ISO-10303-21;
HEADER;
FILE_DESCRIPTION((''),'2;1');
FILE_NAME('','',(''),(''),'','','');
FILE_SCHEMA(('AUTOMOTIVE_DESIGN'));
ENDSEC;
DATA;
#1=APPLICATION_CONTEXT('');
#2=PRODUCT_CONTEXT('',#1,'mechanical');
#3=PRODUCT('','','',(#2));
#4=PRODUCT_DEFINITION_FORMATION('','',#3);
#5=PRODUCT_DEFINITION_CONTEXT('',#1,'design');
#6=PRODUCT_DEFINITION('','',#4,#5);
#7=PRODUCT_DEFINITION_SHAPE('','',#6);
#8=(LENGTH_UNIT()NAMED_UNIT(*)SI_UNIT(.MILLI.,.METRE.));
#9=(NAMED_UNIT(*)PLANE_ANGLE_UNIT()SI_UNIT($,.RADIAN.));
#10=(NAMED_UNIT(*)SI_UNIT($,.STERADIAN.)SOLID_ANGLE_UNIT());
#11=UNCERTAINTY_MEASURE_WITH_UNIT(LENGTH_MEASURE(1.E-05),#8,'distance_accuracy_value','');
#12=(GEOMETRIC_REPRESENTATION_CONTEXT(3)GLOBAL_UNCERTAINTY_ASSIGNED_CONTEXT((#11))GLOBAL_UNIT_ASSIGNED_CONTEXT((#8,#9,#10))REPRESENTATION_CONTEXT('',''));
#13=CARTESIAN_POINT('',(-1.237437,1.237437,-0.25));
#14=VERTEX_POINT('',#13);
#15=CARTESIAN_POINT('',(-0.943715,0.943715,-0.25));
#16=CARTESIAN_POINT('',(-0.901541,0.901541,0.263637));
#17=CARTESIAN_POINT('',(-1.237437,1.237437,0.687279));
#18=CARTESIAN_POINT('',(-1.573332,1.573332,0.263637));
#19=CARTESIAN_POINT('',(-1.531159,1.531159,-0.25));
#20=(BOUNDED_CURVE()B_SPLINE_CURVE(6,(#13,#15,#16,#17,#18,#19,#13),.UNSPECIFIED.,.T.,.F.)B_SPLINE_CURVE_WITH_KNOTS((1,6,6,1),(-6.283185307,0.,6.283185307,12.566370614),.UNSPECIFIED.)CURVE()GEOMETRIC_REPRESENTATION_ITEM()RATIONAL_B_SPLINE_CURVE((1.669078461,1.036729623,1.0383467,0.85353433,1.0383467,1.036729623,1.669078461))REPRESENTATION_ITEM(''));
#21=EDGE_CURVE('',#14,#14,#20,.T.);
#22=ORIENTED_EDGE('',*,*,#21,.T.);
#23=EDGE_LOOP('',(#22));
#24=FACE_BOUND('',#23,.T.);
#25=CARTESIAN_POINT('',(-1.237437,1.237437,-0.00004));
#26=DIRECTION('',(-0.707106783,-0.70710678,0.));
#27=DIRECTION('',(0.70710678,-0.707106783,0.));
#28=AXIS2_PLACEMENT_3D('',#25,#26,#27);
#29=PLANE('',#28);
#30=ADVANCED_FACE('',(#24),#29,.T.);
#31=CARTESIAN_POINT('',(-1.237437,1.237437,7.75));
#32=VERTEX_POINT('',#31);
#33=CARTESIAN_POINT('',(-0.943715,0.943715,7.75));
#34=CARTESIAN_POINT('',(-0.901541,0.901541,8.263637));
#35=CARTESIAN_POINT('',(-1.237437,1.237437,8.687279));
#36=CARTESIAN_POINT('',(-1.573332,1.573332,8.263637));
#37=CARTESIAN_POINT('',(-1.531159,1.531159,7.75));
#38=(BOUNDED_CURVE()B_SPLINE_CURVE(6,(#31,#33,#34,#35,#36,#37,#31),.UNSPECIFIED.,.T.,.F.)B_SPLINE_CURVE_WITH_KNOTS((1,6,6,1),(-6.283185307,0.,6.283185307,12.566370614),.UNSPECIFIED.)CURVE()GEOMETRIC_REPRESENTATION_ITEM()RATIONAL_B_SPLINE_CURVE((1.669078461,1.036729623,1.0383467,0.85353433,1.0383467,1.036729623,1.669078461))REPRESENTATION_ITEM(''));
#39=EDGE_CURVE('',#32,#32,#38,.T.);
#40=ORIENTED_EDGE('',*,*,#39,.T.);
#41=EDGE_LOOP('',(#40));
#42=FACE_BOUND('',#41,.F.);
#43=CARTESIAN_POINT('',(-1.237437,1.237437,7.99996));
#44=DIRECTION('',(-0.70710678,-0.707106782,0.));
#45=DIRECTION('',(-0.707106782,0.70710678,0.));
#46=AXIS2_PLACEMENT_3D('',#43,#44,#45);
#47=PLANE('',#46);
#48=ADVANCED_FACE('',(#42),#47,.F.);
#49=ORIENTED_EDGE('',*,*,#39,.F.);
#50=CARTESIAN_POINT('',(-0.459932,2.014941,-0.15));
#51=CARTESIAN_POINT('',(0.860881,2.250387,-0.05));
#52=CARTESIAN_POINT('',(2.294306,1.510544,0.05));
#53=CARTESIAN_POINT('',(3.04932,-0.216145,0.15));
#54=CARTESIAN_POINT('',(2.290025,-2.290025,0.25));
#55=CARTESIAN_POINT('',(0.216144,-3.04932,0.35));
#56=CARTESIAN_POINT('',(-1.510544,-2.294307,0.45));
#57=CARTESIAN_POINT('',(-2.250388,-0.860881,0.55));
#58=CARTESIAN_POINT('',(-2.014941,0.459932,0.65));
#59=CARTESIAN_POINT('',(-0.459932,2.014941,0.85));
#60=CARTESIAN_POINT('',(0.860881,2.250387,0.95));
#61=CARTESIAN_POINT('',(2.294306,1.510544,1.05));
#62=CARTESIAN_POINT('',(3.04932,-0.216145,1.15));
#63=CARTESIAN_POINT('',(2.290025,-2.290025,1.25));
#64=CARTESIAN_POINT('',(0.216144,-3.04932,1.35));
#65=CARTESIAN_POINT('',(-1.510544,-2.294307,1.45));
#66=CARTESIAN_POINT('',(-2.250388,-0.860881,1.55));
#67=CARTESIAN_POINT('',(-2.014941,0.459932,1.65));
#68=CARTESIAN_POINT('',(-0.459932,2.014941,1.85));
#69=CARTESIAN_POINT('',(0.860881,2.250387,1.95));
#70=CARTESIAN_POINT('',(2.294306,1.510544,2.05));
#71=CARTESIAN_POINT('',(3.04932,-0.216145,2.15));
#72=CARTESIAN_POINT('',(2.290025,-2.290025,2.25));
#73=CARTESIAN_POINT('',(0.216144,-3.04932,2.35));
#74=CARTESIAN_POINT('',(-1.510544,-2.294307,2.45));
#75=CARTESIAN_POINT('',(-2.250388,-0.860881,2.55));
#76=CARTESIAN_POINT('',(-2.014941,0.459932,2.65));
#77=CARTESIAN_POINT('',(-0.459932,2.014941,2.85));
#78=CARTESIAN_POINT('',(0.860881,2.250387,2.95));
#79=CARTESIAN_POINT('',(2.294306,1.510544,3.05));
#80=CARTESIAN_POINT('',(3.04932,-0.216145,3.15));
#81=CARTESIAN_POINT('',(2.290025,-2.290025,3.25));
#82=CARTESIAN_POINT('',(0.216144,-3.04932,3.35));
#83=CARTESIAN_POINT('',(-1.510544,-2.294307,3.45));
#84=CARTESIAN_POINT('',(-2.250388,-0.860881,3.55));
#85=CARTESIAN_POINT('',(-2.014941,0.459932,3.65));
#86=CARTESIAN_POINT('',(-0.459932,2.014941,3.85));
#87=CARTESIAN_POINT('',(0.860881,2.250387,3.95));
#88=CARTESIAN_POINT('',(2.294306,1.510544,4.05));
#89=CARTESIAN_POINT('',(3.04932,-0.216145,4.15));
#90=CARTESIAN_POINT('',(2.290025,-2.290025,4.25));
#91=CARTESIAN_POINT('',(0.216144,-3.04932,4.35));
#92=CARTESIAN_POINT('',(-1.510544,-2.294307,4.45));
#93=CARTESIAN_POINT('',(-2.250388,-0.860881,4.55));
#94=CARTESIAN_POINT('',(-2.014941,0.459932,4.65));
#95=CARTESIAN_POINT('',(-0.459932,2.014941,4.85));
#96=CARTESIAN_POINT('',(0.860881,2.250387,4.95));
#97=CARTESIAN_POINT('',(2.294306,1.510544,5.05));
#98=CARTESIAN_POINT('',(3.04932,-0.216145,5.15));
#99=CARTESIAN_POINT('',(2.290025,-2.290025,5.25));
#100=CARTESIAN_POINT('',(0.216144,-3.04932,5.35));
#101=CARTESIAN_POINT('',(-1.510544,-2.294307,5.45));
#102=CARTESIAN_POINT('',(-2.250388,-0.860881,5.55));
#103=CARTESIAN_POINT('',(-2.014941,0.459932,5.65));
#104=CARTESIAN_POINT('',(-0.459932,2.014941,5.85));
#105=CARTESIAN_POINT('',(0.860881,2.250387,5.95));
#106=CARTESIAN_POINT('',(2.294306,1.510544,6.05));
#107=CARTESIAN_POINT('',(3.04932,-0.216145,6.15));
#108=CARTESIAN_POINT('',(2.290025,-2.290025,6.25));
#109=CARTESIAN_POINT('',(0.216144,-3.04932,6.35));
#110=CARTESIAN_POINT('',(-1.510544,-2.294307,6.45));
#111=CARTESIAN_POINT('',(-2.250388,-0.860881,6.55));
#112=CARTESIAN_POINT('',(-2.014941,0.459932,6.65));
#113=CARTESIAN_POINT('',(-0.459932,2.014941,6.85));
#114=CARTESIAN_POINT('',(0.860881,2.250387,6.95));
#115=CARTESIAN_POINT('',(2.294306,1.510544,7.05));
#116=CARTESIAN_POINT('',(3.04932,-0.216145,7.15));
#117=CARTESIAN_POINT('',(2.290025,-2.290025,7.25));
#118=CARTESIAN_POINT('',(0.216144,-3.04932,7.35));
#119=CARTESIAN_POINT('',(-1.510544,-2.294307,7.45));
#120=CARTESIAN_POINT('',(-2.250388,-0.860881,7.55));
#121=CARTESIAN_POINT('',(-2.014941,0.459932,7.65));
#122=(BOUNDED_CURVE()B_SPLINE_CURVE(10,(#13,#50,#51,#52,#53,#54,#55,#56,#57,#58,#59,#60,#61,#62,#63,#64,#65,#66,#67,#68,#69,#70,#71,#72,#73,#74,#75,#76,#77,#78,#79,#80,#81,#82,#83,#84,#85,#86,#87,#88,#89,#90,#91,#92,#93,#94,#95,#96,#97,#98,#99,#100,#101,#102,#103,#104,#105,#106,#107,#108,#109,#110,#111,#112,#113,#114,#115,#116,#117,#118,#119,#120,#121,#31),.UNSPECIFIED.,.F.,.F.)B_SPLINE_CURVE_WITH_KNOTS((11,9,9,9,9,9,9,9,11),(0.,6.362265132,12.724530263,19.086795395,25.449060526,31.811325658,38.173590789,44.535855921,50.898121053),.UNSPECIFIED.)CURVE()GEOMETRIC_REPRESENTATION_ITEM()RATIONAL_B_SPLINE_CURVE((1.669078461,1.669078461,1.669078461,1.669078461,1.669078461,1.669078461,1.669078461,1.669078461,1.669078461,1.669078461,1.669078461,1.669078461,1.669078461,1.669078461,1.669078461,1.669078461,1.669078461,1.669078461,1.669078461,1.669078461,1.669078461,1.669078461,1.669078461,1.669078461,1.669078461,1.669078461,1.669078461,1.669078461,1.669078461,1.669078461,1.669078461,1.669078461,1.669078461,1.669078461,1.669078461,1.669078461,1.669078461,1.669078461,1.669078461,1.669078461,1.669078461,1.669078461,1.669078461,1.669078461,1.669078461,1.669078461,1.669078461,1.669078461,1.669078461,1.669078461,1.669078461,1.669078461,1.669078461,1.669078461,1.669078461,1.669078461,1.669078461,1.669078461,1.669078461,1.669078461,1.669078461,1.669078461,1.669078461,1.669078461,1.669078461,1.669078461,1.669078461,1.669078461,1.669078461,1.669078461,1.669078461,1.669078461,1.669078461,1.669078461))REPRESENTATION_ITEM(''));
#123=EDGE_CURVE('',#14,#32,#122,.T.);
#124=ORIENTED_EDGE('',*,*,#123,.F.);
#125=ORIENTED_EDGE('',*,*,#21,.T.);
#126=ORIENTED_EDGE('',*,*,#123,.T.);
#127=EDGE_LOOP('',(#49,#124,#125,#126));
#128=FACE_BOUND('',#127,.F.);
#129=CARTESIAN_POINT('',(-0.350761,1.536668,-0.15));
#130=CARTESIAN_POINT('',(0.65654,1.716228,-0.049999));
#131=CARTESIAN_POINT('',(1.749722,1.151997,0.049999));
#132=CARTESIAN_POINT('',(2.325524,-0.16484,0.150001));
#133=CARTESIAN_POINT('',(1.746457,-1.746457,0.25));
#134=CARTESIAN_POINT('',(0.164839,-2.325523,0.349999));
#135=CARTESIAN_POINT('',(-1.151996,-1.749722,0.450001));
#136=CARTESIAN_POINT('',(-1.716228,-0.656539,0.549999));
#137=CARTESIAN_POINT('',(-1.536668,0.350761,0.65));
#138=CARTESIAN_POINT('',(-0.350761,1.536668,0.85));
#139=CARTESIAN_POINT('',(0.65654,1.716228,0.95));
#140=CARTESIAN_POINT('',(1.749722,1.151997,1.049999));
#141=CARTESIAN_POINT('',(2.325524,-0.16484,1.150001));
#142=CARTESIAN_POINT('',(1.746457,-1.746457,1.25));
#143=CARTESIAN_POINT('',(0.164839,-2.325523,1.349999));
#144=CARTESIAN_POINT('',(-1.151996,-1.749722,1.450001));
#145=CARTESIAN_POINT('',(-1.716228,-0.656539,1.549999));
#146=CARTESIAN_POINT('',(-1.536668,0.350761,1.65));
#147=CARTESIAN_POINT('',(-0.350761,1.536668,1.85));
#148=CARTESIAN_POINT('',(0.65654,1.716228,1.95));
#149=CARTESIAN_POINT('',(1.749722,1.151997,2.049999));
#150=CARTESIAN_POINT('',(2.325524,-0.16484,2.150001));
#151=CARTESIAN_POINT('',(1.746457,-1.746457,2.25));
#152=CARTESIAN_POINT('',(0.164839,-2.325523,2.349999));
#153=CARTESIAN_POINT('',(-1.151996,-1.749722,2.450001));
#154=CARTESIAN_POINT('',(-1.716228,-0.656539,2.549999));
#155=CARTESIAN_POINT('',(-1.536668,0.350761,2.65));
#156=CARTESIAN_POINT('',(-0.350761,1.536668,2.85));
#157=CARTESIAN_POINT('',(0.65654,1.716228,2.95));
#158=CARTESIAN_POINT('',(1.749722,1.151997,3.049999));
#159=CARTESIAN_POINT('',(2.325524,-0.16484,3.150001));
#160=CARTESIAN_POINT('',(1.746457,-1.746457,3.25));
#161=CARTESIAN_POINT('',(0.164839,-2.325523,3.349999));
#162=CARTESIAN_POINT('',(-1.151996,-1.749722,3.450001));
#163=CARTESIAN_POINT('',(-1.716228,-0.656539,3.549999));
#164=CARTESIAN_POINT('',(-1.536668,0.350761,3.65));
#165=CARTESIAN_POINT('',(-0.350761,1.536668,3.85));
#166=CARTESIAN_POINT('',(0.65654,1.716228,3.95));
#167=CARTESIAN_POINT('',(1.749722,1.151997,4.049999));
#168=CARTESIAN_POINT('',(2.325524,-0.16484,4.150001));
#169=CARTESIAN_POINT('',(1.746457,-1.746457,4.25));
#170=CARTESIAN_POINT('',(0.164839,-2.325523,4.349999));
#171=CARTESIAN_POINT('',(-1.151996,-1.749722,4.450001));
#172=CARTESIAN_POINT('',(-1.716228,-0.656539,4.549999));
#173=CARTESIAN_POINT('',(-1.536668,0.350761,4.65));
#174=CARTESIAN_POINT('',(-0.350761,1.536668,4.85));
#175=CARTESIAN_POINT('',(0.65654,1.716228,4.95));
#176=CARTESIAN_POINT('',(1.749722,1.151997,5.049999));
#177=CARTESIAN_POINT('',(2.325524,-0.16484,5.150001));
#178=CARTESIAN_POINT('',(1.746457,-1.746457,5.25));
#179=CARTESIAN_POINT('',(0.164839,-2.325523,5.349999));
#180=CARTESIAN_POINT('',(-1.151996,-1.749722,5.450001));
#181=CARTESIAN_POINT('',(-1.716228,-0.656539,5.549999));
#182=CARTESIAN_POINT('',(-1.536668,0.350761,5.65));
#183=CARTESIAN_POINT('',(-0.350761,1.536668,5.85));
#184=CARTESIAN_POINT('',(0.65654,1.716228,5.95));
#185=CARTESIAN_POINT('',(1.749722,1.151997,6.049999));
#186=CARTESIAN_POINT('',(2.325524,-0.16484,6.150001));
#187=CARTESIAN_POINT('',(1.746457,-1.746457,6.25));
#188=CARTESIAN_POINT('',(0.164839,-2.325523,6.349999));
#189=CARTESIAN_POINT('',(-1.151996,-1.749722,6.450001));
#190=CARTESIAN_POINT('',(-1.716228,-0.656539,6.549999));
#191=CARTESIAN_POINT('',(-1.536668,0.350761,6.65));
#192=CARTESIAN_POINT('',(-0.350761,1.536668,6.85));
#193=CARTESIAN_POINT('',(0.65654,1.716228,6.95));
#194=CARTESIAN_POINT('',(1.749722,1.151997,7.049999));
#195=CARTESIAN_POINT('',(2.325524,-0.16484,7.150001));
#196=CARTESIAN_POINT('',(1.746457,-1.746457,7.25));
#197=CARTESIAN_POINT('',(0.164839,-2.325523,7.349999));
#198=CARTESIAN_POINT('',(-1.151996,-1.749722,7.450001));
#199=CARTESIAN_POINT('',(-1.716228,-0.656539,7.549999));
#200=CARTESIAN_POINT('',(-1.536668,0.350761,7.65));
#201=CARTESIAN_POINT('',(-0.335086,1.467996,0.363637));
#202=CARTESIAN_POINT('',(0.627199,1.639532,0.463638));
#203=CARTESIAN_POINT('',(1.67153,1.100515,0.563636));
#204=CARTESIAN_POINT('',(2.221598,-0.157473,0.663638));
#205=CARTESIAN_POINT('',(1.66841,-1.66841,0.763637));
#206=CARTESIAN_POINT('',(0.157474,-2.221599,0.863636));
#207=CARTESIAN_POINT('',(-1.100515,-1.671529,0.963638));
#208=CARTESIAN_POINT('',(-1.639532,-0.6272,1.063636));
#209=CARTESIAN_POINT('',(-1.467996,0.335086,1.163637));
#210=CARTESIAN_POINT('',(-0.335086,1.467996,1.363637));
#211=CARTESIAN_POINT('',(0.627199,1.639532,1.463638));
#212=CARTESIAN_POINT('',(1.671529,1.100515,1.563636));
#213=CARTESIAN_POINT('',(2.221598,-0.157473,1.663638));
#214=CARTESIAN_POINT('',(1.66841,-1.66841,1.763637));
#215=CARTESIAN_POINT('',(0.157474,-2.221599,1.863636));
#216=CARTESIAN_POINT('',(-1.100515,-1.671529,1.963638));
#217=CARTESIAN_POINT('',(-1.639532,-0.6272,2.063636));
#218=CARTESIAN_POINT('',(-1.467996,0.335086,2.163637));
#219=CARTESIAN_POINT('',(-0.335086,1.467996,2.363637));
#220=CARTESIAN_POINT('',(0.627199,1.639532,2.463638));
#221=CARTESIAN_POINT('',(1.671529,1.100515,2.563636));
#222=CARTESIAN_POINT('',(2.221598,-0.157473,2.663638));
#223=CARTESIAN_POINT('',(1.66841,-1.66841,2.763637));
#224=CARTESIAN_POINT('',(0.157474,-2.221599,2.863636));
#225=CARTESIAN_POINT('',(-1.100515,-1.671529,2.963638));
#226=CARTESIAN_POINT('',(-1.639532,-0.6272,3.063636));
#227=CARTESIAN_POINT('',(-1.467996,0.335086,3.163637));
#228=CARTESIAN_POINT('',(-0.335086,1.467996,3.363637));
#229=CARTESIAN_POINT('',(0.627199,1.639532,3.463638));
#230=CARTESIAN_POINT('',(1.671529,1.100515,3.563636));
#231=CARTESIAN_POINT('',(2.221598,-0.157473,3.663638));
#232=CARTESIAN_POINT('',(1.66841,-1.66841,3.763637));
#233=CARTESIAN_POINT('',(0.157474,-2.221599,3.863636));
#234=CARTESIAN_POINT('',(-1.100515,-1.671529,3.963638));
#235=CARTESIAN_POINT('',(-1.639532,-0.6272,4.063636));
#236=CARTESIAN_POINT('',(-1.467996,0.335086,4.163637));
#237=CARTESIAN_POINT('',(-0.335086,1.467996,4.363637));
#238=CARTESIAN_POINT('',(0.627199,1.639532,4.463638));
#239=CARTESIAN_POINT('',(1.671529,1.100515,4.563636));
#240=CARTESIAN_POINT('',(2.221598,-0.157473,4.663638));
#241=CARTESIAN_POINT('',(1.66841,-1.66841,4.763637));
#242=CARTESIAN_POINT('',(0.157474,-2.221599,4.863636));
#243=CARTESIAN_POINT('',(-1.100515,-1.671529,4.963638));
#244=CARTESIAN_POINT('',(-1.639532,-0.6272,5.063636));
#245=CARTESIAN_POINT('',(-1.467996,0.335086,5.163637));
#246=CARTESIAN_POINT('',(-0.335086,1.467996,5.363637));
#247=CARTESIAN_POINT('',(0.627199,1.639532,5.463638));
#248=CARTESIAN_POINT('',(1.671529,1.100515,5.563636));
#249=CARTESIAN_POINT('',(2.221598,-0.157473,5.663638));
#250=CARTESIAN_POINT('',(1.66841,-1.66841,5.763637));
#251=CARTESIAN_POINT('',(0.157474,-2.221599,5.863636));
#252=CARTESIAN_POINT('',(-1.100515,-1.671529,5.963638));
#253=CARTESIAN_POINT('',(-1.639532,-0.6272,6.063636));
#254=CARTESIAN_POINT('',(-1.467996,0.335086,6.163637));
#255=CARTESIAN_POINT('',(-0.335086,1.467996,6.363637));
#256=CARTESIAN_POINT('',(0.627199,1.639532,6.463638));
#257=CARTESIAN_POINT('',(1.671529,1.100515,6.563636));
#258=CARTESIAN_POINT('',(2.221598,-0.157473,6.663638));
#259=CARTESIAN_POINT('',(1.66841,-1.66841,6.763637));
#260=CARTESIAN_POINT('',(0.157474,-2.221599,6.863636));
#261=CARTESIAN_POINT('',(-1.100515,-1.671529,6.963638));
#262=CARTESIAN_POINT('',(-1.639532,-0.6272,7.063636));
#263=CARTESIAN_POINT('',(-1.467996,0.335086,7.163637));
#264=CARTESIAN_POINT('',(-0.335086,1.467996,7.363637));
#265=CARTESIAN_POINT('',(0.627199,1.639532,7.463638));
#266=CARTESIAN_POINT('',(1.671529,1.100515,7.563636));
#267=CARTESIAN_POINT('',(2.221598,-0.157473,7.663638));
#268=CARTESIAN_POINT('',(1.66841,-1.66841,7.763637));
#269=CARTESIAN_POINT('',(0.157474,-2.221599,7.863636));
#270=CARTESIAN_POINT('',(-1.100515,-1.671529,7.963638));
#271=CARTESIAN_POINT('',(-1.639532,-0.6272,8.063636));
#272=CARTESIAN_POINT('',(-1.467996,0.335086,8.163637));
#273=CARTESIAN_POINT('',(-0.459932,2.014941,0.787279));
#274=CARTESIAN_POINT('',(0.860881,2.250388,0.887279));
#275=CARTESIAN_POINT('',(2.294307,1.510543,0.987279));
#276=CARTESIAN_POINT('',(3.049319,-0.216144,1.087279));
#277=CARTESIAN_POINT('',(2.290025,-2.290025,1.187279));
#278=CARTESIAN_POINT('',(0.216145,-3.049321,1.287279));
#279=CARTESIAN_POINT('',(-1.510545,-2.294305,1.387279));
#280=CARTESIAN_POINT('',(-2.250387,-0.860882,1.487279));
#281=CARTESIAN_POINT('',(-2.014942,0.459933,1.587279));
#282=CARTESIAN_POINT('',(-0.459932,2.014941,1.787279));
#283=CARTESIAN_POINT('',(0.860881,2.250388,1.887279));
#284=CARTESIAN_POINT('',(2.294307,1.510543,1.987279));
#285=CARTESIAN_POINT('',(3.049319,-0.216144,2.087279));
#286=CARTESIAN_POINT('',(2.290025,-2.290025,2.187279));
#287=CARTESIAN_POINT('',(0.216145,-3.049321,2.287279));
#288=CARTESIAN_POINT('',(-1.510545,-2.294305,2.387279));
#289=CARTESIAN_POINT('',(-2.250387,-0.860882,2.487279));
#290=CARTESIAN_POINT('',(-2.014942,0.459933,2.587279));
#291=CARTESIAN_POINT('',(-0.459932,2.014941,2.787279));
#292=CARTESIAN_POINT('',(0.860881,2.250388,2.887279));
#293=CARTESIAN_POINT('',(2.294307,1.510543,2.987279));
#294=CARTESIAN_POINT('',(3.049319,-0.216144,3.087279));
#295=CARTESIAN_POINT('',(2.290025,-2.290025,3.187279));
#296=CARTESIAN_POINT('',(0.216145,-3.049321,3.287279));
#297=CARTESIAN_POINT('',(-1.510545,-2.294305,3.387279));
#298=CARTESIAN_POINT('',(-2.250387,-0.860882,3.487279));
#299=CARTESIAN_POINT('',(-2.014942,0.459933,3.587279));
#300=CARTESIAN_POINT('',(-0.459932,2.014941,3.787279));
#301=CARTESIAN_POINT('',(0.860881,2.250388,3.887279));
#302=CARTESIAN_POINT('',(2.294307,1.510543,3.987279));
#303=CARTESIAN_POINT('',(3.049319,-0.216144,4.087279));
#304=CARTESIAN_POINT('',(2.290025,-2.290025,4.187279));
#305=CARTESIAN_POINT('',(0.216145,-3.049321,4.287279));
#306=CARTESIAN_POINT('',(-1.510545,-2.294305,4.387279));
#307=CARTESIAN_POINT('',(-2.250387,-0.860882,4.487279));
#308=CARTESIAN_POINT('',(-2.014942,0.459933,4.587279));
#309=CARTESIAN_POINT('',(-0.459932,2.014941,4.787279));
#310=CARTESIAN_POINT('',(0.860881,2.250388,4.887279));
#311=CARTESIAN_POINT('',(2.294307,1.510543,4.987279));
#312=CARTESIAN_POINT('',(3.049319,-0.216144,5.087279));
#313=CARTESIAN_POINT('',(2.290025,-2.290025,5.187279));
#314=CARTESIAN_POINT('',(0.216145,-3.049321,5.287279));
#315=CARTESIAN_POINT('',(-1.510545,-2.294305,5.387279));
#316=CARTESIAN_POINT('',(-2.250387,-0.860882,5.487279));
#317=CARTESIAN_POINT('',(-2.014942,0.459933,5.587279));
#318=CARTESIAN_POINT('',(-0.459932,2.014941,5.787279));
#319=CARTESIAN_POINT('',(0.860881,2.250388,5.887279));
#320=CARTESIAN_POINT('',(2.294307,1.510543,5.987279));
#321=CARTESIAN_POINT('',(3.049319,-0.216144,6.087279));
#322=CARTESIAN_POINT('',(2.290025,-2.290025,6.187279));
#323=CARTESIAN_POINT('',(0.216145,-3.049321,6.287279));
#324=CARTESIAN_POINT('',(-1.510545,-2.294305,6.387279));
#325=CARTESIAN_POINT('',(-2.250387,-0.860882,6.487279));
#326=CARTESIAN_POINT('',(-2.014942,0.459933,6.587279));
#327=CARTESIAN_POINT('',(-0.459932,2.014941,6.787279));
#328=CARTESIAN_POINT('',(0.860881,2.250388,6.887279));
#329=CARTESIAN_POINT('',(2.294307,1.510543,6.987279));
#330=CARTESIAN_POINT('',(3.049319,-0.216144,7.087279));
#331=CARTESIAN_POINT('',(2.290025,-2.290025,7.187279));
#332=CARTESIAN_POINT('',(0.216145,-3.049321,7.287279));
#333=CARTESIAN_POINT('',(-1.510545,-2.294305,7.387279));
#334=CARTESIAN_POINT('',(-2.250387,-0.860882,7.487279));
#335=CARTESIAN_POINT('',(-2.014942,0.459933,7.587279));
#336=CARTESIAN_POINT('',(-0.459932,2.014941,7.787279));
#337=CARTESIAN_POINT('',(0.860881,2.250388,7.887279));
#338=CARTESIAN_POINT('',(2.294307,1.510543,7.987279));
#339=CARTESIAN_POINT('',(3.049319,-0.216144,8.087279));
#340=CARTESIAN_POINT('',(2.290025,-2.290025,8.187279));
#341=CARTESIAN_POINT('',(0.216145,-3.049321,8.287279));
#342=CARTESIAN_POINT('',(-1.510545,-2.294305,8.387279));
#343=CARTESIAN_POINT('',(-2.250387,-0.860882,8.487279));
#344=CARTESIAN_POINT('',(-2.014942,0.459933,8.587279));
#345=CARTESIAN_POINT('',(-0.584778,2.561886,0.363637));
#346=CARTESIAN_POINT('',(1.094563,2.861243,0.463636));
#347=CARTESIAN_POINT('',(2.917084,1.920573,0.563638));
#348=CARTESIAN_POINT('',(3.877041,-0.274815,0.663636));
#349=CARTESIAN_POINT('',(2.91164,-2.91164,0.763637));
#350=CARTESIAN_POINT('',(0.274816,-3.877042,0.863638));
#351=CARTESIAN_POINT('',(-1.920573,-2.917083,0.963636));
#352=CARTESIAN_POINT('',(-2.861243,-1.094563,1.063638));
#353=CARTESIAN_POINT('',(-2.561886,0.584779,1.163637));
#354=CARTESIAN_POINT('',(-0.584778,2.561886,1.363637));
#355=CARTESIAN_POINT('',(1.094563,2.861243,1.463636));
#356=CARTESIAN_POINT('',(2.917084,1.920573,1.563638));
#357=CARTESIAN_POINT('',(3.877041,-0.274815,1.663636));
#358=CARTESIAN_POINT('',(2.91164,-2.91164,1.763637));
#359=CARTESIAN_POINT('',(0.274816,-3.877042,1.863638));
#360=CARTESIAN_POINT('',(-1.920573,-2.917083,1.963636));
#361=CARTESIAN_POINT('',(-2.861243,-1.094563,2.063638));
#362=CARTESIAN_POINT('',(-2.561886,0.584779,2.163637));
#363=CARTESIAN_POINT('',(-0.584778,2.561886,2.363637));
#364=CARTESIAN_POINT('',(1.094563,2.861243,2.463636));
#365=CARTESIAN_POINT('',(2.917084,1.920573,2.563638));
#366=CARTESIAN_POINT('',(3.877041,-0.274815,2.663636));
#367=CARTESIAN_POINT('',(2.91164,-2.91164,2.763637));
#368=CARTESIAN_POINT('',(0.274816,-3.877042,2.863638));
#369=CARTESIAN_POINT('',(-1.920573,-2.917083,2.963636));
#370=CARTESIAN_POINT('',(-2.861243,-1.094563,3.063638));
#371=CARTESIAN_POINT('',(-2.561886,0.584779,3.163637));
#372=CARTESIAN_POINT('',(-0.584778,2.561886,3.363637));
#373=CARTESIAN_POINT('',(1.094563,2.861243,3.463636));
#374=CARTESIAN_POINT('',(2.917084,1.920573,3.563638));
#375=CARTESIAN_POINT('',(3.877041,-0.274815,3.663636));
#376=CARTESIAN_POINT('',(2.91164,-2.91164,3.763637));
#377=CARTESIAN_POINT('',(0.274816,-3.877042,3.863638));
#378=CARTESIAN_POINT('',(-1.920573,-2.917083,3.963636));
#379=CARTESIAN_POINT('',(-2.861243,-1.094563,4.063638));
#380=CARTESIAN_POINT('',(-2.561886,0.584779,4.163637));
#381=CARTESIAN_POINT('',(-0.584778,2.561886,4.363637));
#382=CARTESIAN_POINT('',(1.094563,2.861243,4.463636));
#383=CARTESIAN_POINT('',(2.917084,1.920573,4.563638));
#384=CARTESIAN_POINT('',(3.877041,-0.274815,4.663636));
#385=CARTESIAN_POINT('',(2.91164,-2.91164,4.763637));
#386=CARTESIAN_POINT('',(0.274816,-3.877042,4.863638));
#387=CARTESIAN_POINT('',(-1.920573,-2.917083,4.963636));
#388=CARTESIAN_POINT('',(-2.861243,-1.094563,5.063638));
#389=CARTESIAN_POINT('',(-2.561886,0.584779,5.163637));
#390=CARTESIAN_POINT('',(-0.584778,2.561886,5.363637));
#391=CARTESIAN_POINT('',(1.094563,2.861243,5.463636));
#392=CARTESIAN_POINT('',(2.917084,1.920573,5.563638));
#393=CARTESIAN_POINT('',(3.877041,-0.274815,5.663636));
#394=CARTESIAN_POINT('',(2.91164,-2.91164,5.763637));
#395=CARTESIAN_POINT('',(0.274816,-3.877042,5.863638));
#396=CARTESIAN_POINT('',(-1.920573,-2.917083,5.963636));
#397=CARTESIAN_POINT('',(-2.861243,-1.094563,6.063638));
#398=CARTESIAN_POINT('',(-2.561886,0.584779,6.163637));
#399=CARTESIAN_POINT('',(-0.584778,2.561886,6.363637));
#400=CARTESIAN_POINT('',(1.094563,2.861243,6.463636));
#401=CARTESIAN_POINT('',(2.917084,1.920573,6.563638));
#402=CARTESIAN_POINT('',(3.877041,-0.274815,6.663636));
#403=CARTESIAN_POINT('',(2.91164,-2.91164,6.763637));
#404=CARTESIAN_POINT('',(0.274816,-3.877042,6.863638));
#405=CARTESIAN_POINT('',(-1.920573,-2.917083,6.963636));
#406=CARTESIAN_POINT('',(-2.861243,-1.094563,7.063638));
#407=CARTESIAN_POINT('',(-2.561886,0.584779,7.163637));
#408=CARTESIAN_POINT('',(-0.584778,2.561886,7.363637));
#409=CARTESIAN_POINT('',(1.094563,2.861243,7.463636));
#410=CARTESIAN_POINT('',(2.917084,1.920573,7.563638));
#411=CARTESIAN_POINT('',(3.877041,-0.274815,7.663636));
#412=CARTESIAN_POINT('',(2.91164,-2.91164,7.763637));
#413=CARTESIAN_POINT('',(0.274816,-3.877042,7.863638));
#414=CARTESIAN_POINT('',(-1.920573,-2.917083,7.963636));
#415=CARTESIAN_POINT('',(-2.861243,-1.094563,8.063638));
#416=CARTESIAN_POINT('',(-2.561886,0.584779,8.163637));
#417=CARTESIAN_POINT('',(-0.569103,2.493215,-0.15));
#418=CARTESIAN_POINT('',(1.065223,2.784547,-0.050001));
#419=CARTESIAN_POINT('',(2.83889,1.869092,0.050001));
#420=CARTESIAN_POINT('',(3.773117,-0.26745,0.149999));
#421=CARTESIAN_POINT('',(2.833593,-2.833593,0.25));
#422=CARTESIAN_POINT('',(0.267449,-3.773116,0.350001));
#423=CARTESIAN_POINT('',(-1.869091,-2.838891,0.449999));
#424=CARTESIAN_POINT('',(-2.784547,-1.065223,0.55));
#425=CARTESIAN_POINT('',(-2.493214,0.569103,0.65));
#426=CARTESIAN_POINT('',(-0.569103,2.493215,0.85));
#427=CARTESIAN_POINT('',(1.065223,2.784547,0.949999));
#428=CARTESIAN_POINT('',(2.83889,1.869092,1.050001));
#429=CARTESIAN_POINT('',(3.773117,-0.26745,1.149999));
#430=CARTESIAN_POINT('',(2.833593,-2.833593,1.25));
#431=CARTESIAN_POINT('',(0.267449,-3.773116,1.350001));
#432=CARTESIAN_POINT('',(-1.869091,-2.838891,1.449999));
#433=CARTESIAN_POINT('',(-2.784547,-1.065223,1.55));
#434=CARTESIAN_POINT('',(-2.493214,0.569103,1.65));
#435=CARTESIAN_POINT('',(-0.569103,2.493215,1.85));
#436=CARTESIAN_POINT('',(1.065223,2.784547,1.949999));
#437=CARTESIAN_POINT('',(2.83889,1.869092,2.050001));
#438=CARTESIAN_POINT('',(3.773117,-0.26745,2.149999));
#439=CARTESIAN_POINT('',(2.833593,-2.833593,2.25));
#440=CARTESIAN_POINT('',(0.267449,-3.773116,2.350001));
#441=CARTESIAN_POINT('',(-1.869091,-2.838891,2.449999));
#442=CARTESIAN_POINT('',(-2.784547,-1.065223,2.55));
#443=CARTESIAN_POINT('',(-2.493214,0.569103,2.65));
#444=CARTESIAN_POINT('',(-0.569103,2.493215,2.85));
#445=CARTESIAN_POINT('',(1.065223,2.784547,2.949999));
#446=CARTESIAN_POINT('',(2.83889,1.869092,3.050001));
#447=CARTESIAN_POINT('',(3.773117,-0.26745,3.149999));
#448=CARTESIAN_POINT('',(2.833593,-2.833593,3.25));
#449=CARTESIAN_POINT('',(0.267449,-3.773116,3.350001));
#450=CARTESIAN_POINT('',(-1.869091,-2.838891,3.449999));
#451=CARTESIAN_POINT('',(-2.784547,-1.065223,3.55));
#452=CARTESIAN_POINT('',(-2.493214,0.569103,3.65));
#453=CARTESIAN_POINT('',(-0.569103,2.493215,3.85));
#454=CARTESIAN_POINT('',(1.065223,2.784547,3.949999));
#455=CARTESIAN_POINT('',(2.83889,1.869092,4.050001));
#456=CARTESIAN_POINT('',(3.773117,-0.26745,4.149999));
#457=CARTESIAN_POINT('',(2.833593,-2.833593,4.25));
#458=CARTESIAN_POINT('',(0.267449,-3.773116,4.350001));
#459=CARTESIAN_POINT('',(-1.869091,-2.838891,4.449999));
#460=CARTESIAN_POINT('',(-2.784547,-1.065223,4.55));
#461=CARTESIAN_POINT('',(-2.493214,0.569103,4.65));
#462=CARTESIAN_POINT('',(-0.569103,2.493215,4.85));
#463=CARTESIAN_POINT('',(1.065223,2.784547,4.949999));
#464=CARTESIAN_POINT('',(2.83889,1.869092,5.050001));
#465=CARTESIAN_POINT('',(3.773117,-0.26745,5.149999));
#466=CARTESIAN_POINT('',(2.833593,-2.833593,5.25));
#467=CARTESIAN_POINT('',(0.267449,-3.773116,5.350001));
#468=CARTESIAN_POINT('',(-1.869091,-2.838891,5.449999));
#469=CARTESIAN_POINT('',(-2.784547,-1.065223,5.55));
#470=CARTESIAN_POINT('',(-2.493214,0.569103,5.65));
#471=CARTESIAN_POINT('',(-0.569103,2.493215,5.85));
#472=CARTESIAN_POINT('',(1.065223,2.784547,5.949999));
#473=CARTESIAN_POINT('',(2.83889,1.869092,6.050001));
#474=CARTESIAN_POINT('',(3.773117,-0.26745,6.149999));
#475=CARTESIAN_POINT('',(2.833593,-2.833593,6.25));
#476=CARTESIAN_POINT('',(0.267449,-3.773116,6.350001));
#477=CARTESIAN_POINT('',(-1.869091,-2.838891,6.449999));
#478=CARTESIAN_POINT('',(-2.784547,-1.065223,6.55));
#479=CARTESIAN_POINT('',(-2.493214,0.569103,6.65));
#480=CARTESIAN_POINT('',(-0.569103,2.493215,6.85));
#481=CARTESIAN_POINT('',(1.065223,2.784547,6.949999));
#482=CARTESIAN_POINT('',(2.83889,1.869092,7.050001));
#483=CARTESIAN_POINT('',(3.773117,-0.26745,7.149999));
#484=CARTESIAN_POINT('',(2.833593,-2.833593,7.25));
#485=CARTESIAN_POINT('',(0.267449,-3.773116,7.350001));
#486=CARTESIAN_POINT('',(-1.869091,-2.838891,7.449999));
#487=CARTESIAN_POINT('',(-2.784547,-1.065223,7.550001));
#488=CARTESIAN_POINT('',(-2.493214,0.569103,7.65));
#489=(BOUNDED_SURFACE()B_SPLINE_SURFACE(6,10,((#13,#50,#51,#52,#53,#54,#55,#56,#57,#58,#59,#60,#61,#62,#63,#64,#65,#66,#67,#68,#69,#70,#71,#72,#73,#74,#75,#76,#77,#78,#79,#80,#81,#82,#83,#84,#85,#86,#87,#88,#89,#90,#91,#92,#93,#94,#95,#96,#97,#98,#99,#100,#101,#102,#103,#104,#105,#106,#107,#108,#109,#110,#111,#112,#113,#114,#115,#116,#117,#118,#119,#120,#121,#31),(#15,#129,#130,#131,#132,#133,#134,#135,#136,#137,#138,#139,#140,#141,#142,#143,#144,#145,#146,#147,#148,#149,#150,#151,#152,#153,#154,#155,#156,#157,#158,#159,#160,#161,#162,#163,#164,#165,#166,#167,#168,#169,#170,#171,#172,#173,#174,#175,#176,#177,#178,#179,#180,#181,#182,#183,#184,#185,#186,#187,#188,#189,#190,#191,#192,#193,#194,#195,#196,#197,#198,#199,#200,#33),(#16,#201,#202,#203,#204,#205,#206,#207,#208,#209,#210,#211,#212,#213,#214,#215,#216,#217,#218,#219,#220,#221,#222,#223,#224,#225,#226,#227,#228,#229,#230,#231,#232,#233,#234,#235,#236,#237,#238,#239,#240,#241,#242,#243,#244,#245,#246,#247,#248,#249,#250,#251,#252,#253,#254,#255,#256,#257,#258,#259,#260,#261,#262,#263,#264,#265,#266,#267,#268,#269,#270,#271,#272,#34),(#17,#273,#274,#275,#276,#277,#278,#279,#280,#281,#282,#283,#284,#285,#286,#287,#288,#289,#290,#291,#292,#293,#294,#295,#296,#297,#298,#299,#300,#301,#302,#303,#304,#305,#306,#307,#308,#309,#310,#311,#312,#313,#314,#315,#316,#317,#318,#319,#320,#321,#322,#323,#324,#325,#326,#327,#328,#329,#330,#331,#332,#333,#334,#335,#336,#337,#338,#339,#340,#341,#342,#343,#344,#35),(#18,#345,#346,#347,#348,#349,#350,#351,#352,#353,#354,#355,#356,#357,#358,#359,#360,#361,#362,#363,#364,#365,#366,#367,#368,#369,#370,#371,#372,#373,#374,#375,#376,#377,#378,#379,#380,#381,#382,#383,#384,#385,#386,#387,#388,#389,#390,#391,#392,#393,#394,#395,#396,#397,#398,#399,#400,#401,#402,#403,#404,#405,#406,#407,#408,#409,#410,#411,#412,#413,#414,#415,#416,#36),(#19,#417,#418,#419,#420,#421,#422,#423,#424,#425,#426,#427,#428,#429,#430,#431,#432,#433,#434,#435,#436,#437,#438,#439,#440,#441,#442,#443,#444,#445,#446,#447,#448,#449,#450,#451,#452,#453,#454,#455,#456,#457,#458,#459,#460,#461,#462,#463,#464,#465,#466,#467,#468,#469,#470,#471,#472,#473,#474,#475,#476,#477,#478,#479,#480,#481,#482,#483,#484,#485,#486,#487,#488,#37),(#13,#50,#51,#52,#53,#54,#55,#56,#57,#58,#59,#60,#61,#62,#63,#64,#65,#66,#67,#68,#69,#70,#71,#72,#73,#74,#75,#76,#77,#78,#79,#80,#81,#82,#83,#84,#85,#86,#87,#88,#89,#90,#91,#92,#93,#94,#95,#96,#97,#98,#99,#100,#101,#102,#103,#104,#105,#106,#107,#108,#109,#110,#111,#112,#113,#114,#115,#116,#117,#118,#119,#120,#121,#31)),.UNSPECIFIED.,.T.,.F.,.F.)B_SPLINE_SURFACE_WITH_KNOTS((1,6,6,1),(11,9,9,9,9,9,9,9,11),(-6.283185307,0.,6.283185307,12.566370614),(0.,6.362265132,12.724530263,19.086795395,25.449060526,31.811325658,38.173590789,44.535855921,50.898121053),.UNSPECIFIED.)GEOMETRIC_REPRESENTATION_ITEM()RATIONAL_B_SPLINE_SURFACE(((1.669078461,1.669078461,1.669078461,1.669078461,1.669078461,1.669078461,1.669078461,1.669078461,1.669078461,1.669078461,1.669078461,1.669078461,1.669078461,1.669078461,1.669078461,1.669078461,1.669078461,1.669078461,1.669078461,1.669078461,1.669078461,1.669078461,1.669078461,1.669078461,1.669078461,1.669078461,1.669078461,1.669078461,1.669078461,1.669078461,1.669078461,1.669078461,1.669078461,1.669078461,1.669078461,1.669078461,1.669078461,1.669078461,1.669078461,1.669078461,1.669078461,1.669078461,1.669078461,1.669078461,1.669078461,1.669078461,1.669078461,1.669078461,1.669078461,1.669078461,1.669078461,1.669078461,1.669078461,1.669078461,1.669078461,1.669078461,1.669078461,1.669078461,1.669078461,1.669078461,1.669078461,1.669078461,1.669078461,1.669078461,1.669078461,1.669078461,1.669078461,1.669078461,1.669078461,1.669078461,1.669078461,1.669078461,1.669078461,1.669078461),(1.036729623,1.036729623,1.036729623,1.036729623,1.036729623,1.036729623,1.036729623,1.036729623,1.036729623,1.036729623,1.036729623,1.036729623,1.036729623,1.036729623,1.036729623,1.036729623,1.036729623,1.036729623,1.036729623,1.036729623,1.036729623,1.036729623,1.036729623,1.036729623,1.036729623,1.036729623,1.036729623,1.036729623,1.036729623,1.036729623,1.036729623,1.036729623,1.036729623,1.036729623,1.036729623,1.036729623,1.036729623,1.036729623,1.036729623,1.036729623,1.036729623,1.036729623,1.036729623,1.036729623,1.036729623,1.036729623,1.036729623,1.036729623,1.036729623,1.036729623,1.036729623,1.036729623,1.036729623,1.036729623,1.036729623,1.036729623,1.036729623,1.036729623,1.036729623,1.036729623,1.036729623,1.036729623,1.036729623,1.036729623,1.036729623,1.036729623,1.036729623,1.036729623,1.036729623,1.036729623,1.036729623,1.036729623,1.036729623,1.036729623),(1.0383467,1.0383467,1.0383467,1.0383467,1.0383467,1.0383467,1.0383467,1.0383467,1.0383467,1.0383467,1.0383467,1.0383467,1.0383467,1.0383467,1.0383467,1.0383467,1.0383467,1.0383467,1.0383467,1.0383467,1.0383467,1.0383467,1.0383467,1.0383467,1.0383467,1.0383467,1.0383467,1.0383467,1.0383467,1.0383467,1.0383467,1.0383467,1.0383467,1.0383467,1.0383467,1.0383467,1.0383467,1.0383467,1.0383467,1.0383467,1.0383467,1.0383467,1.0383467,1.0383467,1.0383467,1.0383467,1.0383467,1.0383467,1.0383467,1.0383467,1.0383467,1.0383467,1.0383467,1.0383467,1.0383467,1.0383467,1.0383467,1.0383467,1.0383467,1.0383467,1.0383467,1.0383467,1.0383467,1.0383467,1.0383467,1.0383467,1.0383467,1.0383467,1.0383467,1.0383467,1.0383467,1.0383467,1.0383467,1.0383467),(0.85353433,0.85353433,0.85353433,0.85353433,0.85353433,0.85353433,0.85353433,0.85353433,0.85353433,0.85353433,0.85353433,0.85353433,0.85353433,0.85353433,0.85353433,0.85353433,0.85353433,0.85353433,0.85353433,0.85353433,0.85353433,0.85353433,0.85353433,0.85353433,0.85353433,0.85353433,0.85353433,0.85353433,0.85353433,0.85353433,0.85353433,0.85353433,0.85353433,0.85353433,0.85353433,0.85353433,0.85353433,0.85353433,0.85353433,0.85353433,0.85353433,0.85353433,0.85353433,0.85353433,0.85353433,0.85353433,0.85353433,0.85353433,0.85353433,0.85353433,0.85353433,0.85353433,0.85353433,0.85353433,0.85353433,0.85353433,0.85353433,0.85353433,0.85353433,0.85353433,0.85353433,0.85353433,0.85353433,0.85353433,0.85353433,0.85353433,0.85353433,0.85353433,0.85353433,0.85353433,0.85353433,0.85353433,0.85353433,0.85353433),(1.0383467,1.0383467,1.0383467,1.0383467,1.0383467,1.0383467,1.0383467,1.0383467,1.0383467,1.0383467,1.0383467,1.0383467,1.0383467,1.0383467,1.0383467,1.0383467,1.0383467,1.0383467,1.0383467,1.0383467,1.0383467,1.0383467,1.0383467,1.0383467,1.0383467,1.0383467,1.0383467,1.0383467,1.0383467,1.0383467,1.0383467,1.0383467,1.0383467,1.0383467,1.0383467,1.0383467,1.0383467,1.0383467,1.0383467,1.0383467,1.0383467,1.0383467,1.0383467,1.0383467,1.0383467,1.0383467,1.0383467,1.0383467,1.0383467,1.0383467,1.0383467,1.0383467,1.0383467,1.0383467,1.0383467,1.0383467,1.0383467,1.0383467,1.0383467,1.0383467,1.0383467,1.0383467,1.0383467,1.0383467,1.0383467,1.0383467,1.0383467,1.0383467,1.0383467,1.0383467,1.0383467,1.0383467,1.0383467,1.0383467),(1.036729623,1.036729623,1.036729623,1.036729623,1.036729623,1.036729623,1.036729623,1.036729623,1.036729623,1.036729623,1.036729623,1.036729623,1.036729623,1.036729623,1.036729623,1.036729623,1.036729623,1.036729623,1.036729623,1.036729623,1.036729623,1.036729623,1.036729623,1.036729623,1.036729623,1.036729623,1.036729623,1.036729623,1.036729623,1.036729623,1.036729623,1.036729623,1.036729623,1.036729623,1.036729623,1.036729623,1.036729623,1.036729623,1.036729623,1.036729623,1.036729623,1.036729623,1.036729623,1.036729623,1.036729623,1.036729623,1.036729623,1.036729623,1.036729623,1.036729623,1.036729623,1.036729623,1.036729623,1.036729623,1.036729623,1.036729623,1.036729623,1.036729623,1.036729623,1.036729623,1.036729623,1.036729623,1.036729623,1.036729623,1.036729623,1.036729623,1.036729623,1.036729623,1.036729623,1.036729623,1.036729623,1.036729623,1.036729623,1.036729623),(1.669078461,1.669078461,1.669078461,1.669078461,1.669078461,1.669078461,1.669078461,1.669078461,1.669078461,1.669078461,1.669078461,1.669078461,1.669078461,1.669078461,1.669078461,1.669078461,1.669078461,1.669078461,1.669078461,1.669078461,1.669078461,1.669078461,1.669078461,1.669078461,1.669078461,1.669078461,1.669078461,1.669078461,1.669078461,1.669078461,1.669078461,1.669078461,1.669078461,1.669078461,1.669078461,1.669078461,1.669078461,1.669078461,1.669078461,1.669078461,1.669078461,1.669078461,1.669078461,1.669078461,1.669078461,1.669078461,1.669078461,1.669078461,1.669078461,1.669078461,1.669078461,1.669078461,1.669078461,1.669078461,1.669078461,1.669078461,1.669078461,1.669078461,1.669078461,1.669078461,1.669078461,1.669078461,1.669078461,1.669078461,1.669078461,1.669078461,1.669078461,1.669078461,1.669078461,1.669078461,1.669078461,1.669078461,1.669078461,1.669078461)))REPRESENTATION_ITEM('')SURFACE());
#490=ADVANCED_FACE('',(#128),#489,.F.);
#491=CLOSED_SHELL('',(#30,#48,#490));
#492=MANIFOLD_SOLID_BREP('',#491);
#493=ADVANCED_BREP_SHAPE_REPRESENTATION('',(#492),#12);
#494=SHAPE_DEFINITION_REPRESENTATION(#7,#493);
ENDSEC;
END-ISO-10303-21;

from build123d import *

# Parameters (mm, degrees)
SWEEP1_PITCH       = 1
SWEEP1_HEIGHT      = 8
SWEEP1_RADIUS      = 1.75
SWEEP1_START_ANGLE = 135
SKETCH2_R          = 0.25


with BuildPart() as part:
    # Sweep1: sweep along a helix
    with BuildLine() as sweep1_path:
        add(Helix(SWEEP1_PITCH, SWEEP1_HEIGHT, SWEEP1_RADIUS, center=(0, 0, 0), direction=(0, 0, 1), lefthand=True, mode=Mode.PRIVATE).rotate(Axis((0, 0, 0), (0, 0, 1)), SWEEP1_START_ANGLE))
    # Sketch2 → Sweep1 (sweep)
    with BuildSketch(Plane(origin=(0, 0, 0), x_dir=(0, 0, -1), z_dir=(1, 0, 0))):
        with Locations((-6.624999987, -1.75)):
            Circle(SKETCH2_R)
    sweep(path=sweep1_path.line, is_frenet=True)


solid = part.part
